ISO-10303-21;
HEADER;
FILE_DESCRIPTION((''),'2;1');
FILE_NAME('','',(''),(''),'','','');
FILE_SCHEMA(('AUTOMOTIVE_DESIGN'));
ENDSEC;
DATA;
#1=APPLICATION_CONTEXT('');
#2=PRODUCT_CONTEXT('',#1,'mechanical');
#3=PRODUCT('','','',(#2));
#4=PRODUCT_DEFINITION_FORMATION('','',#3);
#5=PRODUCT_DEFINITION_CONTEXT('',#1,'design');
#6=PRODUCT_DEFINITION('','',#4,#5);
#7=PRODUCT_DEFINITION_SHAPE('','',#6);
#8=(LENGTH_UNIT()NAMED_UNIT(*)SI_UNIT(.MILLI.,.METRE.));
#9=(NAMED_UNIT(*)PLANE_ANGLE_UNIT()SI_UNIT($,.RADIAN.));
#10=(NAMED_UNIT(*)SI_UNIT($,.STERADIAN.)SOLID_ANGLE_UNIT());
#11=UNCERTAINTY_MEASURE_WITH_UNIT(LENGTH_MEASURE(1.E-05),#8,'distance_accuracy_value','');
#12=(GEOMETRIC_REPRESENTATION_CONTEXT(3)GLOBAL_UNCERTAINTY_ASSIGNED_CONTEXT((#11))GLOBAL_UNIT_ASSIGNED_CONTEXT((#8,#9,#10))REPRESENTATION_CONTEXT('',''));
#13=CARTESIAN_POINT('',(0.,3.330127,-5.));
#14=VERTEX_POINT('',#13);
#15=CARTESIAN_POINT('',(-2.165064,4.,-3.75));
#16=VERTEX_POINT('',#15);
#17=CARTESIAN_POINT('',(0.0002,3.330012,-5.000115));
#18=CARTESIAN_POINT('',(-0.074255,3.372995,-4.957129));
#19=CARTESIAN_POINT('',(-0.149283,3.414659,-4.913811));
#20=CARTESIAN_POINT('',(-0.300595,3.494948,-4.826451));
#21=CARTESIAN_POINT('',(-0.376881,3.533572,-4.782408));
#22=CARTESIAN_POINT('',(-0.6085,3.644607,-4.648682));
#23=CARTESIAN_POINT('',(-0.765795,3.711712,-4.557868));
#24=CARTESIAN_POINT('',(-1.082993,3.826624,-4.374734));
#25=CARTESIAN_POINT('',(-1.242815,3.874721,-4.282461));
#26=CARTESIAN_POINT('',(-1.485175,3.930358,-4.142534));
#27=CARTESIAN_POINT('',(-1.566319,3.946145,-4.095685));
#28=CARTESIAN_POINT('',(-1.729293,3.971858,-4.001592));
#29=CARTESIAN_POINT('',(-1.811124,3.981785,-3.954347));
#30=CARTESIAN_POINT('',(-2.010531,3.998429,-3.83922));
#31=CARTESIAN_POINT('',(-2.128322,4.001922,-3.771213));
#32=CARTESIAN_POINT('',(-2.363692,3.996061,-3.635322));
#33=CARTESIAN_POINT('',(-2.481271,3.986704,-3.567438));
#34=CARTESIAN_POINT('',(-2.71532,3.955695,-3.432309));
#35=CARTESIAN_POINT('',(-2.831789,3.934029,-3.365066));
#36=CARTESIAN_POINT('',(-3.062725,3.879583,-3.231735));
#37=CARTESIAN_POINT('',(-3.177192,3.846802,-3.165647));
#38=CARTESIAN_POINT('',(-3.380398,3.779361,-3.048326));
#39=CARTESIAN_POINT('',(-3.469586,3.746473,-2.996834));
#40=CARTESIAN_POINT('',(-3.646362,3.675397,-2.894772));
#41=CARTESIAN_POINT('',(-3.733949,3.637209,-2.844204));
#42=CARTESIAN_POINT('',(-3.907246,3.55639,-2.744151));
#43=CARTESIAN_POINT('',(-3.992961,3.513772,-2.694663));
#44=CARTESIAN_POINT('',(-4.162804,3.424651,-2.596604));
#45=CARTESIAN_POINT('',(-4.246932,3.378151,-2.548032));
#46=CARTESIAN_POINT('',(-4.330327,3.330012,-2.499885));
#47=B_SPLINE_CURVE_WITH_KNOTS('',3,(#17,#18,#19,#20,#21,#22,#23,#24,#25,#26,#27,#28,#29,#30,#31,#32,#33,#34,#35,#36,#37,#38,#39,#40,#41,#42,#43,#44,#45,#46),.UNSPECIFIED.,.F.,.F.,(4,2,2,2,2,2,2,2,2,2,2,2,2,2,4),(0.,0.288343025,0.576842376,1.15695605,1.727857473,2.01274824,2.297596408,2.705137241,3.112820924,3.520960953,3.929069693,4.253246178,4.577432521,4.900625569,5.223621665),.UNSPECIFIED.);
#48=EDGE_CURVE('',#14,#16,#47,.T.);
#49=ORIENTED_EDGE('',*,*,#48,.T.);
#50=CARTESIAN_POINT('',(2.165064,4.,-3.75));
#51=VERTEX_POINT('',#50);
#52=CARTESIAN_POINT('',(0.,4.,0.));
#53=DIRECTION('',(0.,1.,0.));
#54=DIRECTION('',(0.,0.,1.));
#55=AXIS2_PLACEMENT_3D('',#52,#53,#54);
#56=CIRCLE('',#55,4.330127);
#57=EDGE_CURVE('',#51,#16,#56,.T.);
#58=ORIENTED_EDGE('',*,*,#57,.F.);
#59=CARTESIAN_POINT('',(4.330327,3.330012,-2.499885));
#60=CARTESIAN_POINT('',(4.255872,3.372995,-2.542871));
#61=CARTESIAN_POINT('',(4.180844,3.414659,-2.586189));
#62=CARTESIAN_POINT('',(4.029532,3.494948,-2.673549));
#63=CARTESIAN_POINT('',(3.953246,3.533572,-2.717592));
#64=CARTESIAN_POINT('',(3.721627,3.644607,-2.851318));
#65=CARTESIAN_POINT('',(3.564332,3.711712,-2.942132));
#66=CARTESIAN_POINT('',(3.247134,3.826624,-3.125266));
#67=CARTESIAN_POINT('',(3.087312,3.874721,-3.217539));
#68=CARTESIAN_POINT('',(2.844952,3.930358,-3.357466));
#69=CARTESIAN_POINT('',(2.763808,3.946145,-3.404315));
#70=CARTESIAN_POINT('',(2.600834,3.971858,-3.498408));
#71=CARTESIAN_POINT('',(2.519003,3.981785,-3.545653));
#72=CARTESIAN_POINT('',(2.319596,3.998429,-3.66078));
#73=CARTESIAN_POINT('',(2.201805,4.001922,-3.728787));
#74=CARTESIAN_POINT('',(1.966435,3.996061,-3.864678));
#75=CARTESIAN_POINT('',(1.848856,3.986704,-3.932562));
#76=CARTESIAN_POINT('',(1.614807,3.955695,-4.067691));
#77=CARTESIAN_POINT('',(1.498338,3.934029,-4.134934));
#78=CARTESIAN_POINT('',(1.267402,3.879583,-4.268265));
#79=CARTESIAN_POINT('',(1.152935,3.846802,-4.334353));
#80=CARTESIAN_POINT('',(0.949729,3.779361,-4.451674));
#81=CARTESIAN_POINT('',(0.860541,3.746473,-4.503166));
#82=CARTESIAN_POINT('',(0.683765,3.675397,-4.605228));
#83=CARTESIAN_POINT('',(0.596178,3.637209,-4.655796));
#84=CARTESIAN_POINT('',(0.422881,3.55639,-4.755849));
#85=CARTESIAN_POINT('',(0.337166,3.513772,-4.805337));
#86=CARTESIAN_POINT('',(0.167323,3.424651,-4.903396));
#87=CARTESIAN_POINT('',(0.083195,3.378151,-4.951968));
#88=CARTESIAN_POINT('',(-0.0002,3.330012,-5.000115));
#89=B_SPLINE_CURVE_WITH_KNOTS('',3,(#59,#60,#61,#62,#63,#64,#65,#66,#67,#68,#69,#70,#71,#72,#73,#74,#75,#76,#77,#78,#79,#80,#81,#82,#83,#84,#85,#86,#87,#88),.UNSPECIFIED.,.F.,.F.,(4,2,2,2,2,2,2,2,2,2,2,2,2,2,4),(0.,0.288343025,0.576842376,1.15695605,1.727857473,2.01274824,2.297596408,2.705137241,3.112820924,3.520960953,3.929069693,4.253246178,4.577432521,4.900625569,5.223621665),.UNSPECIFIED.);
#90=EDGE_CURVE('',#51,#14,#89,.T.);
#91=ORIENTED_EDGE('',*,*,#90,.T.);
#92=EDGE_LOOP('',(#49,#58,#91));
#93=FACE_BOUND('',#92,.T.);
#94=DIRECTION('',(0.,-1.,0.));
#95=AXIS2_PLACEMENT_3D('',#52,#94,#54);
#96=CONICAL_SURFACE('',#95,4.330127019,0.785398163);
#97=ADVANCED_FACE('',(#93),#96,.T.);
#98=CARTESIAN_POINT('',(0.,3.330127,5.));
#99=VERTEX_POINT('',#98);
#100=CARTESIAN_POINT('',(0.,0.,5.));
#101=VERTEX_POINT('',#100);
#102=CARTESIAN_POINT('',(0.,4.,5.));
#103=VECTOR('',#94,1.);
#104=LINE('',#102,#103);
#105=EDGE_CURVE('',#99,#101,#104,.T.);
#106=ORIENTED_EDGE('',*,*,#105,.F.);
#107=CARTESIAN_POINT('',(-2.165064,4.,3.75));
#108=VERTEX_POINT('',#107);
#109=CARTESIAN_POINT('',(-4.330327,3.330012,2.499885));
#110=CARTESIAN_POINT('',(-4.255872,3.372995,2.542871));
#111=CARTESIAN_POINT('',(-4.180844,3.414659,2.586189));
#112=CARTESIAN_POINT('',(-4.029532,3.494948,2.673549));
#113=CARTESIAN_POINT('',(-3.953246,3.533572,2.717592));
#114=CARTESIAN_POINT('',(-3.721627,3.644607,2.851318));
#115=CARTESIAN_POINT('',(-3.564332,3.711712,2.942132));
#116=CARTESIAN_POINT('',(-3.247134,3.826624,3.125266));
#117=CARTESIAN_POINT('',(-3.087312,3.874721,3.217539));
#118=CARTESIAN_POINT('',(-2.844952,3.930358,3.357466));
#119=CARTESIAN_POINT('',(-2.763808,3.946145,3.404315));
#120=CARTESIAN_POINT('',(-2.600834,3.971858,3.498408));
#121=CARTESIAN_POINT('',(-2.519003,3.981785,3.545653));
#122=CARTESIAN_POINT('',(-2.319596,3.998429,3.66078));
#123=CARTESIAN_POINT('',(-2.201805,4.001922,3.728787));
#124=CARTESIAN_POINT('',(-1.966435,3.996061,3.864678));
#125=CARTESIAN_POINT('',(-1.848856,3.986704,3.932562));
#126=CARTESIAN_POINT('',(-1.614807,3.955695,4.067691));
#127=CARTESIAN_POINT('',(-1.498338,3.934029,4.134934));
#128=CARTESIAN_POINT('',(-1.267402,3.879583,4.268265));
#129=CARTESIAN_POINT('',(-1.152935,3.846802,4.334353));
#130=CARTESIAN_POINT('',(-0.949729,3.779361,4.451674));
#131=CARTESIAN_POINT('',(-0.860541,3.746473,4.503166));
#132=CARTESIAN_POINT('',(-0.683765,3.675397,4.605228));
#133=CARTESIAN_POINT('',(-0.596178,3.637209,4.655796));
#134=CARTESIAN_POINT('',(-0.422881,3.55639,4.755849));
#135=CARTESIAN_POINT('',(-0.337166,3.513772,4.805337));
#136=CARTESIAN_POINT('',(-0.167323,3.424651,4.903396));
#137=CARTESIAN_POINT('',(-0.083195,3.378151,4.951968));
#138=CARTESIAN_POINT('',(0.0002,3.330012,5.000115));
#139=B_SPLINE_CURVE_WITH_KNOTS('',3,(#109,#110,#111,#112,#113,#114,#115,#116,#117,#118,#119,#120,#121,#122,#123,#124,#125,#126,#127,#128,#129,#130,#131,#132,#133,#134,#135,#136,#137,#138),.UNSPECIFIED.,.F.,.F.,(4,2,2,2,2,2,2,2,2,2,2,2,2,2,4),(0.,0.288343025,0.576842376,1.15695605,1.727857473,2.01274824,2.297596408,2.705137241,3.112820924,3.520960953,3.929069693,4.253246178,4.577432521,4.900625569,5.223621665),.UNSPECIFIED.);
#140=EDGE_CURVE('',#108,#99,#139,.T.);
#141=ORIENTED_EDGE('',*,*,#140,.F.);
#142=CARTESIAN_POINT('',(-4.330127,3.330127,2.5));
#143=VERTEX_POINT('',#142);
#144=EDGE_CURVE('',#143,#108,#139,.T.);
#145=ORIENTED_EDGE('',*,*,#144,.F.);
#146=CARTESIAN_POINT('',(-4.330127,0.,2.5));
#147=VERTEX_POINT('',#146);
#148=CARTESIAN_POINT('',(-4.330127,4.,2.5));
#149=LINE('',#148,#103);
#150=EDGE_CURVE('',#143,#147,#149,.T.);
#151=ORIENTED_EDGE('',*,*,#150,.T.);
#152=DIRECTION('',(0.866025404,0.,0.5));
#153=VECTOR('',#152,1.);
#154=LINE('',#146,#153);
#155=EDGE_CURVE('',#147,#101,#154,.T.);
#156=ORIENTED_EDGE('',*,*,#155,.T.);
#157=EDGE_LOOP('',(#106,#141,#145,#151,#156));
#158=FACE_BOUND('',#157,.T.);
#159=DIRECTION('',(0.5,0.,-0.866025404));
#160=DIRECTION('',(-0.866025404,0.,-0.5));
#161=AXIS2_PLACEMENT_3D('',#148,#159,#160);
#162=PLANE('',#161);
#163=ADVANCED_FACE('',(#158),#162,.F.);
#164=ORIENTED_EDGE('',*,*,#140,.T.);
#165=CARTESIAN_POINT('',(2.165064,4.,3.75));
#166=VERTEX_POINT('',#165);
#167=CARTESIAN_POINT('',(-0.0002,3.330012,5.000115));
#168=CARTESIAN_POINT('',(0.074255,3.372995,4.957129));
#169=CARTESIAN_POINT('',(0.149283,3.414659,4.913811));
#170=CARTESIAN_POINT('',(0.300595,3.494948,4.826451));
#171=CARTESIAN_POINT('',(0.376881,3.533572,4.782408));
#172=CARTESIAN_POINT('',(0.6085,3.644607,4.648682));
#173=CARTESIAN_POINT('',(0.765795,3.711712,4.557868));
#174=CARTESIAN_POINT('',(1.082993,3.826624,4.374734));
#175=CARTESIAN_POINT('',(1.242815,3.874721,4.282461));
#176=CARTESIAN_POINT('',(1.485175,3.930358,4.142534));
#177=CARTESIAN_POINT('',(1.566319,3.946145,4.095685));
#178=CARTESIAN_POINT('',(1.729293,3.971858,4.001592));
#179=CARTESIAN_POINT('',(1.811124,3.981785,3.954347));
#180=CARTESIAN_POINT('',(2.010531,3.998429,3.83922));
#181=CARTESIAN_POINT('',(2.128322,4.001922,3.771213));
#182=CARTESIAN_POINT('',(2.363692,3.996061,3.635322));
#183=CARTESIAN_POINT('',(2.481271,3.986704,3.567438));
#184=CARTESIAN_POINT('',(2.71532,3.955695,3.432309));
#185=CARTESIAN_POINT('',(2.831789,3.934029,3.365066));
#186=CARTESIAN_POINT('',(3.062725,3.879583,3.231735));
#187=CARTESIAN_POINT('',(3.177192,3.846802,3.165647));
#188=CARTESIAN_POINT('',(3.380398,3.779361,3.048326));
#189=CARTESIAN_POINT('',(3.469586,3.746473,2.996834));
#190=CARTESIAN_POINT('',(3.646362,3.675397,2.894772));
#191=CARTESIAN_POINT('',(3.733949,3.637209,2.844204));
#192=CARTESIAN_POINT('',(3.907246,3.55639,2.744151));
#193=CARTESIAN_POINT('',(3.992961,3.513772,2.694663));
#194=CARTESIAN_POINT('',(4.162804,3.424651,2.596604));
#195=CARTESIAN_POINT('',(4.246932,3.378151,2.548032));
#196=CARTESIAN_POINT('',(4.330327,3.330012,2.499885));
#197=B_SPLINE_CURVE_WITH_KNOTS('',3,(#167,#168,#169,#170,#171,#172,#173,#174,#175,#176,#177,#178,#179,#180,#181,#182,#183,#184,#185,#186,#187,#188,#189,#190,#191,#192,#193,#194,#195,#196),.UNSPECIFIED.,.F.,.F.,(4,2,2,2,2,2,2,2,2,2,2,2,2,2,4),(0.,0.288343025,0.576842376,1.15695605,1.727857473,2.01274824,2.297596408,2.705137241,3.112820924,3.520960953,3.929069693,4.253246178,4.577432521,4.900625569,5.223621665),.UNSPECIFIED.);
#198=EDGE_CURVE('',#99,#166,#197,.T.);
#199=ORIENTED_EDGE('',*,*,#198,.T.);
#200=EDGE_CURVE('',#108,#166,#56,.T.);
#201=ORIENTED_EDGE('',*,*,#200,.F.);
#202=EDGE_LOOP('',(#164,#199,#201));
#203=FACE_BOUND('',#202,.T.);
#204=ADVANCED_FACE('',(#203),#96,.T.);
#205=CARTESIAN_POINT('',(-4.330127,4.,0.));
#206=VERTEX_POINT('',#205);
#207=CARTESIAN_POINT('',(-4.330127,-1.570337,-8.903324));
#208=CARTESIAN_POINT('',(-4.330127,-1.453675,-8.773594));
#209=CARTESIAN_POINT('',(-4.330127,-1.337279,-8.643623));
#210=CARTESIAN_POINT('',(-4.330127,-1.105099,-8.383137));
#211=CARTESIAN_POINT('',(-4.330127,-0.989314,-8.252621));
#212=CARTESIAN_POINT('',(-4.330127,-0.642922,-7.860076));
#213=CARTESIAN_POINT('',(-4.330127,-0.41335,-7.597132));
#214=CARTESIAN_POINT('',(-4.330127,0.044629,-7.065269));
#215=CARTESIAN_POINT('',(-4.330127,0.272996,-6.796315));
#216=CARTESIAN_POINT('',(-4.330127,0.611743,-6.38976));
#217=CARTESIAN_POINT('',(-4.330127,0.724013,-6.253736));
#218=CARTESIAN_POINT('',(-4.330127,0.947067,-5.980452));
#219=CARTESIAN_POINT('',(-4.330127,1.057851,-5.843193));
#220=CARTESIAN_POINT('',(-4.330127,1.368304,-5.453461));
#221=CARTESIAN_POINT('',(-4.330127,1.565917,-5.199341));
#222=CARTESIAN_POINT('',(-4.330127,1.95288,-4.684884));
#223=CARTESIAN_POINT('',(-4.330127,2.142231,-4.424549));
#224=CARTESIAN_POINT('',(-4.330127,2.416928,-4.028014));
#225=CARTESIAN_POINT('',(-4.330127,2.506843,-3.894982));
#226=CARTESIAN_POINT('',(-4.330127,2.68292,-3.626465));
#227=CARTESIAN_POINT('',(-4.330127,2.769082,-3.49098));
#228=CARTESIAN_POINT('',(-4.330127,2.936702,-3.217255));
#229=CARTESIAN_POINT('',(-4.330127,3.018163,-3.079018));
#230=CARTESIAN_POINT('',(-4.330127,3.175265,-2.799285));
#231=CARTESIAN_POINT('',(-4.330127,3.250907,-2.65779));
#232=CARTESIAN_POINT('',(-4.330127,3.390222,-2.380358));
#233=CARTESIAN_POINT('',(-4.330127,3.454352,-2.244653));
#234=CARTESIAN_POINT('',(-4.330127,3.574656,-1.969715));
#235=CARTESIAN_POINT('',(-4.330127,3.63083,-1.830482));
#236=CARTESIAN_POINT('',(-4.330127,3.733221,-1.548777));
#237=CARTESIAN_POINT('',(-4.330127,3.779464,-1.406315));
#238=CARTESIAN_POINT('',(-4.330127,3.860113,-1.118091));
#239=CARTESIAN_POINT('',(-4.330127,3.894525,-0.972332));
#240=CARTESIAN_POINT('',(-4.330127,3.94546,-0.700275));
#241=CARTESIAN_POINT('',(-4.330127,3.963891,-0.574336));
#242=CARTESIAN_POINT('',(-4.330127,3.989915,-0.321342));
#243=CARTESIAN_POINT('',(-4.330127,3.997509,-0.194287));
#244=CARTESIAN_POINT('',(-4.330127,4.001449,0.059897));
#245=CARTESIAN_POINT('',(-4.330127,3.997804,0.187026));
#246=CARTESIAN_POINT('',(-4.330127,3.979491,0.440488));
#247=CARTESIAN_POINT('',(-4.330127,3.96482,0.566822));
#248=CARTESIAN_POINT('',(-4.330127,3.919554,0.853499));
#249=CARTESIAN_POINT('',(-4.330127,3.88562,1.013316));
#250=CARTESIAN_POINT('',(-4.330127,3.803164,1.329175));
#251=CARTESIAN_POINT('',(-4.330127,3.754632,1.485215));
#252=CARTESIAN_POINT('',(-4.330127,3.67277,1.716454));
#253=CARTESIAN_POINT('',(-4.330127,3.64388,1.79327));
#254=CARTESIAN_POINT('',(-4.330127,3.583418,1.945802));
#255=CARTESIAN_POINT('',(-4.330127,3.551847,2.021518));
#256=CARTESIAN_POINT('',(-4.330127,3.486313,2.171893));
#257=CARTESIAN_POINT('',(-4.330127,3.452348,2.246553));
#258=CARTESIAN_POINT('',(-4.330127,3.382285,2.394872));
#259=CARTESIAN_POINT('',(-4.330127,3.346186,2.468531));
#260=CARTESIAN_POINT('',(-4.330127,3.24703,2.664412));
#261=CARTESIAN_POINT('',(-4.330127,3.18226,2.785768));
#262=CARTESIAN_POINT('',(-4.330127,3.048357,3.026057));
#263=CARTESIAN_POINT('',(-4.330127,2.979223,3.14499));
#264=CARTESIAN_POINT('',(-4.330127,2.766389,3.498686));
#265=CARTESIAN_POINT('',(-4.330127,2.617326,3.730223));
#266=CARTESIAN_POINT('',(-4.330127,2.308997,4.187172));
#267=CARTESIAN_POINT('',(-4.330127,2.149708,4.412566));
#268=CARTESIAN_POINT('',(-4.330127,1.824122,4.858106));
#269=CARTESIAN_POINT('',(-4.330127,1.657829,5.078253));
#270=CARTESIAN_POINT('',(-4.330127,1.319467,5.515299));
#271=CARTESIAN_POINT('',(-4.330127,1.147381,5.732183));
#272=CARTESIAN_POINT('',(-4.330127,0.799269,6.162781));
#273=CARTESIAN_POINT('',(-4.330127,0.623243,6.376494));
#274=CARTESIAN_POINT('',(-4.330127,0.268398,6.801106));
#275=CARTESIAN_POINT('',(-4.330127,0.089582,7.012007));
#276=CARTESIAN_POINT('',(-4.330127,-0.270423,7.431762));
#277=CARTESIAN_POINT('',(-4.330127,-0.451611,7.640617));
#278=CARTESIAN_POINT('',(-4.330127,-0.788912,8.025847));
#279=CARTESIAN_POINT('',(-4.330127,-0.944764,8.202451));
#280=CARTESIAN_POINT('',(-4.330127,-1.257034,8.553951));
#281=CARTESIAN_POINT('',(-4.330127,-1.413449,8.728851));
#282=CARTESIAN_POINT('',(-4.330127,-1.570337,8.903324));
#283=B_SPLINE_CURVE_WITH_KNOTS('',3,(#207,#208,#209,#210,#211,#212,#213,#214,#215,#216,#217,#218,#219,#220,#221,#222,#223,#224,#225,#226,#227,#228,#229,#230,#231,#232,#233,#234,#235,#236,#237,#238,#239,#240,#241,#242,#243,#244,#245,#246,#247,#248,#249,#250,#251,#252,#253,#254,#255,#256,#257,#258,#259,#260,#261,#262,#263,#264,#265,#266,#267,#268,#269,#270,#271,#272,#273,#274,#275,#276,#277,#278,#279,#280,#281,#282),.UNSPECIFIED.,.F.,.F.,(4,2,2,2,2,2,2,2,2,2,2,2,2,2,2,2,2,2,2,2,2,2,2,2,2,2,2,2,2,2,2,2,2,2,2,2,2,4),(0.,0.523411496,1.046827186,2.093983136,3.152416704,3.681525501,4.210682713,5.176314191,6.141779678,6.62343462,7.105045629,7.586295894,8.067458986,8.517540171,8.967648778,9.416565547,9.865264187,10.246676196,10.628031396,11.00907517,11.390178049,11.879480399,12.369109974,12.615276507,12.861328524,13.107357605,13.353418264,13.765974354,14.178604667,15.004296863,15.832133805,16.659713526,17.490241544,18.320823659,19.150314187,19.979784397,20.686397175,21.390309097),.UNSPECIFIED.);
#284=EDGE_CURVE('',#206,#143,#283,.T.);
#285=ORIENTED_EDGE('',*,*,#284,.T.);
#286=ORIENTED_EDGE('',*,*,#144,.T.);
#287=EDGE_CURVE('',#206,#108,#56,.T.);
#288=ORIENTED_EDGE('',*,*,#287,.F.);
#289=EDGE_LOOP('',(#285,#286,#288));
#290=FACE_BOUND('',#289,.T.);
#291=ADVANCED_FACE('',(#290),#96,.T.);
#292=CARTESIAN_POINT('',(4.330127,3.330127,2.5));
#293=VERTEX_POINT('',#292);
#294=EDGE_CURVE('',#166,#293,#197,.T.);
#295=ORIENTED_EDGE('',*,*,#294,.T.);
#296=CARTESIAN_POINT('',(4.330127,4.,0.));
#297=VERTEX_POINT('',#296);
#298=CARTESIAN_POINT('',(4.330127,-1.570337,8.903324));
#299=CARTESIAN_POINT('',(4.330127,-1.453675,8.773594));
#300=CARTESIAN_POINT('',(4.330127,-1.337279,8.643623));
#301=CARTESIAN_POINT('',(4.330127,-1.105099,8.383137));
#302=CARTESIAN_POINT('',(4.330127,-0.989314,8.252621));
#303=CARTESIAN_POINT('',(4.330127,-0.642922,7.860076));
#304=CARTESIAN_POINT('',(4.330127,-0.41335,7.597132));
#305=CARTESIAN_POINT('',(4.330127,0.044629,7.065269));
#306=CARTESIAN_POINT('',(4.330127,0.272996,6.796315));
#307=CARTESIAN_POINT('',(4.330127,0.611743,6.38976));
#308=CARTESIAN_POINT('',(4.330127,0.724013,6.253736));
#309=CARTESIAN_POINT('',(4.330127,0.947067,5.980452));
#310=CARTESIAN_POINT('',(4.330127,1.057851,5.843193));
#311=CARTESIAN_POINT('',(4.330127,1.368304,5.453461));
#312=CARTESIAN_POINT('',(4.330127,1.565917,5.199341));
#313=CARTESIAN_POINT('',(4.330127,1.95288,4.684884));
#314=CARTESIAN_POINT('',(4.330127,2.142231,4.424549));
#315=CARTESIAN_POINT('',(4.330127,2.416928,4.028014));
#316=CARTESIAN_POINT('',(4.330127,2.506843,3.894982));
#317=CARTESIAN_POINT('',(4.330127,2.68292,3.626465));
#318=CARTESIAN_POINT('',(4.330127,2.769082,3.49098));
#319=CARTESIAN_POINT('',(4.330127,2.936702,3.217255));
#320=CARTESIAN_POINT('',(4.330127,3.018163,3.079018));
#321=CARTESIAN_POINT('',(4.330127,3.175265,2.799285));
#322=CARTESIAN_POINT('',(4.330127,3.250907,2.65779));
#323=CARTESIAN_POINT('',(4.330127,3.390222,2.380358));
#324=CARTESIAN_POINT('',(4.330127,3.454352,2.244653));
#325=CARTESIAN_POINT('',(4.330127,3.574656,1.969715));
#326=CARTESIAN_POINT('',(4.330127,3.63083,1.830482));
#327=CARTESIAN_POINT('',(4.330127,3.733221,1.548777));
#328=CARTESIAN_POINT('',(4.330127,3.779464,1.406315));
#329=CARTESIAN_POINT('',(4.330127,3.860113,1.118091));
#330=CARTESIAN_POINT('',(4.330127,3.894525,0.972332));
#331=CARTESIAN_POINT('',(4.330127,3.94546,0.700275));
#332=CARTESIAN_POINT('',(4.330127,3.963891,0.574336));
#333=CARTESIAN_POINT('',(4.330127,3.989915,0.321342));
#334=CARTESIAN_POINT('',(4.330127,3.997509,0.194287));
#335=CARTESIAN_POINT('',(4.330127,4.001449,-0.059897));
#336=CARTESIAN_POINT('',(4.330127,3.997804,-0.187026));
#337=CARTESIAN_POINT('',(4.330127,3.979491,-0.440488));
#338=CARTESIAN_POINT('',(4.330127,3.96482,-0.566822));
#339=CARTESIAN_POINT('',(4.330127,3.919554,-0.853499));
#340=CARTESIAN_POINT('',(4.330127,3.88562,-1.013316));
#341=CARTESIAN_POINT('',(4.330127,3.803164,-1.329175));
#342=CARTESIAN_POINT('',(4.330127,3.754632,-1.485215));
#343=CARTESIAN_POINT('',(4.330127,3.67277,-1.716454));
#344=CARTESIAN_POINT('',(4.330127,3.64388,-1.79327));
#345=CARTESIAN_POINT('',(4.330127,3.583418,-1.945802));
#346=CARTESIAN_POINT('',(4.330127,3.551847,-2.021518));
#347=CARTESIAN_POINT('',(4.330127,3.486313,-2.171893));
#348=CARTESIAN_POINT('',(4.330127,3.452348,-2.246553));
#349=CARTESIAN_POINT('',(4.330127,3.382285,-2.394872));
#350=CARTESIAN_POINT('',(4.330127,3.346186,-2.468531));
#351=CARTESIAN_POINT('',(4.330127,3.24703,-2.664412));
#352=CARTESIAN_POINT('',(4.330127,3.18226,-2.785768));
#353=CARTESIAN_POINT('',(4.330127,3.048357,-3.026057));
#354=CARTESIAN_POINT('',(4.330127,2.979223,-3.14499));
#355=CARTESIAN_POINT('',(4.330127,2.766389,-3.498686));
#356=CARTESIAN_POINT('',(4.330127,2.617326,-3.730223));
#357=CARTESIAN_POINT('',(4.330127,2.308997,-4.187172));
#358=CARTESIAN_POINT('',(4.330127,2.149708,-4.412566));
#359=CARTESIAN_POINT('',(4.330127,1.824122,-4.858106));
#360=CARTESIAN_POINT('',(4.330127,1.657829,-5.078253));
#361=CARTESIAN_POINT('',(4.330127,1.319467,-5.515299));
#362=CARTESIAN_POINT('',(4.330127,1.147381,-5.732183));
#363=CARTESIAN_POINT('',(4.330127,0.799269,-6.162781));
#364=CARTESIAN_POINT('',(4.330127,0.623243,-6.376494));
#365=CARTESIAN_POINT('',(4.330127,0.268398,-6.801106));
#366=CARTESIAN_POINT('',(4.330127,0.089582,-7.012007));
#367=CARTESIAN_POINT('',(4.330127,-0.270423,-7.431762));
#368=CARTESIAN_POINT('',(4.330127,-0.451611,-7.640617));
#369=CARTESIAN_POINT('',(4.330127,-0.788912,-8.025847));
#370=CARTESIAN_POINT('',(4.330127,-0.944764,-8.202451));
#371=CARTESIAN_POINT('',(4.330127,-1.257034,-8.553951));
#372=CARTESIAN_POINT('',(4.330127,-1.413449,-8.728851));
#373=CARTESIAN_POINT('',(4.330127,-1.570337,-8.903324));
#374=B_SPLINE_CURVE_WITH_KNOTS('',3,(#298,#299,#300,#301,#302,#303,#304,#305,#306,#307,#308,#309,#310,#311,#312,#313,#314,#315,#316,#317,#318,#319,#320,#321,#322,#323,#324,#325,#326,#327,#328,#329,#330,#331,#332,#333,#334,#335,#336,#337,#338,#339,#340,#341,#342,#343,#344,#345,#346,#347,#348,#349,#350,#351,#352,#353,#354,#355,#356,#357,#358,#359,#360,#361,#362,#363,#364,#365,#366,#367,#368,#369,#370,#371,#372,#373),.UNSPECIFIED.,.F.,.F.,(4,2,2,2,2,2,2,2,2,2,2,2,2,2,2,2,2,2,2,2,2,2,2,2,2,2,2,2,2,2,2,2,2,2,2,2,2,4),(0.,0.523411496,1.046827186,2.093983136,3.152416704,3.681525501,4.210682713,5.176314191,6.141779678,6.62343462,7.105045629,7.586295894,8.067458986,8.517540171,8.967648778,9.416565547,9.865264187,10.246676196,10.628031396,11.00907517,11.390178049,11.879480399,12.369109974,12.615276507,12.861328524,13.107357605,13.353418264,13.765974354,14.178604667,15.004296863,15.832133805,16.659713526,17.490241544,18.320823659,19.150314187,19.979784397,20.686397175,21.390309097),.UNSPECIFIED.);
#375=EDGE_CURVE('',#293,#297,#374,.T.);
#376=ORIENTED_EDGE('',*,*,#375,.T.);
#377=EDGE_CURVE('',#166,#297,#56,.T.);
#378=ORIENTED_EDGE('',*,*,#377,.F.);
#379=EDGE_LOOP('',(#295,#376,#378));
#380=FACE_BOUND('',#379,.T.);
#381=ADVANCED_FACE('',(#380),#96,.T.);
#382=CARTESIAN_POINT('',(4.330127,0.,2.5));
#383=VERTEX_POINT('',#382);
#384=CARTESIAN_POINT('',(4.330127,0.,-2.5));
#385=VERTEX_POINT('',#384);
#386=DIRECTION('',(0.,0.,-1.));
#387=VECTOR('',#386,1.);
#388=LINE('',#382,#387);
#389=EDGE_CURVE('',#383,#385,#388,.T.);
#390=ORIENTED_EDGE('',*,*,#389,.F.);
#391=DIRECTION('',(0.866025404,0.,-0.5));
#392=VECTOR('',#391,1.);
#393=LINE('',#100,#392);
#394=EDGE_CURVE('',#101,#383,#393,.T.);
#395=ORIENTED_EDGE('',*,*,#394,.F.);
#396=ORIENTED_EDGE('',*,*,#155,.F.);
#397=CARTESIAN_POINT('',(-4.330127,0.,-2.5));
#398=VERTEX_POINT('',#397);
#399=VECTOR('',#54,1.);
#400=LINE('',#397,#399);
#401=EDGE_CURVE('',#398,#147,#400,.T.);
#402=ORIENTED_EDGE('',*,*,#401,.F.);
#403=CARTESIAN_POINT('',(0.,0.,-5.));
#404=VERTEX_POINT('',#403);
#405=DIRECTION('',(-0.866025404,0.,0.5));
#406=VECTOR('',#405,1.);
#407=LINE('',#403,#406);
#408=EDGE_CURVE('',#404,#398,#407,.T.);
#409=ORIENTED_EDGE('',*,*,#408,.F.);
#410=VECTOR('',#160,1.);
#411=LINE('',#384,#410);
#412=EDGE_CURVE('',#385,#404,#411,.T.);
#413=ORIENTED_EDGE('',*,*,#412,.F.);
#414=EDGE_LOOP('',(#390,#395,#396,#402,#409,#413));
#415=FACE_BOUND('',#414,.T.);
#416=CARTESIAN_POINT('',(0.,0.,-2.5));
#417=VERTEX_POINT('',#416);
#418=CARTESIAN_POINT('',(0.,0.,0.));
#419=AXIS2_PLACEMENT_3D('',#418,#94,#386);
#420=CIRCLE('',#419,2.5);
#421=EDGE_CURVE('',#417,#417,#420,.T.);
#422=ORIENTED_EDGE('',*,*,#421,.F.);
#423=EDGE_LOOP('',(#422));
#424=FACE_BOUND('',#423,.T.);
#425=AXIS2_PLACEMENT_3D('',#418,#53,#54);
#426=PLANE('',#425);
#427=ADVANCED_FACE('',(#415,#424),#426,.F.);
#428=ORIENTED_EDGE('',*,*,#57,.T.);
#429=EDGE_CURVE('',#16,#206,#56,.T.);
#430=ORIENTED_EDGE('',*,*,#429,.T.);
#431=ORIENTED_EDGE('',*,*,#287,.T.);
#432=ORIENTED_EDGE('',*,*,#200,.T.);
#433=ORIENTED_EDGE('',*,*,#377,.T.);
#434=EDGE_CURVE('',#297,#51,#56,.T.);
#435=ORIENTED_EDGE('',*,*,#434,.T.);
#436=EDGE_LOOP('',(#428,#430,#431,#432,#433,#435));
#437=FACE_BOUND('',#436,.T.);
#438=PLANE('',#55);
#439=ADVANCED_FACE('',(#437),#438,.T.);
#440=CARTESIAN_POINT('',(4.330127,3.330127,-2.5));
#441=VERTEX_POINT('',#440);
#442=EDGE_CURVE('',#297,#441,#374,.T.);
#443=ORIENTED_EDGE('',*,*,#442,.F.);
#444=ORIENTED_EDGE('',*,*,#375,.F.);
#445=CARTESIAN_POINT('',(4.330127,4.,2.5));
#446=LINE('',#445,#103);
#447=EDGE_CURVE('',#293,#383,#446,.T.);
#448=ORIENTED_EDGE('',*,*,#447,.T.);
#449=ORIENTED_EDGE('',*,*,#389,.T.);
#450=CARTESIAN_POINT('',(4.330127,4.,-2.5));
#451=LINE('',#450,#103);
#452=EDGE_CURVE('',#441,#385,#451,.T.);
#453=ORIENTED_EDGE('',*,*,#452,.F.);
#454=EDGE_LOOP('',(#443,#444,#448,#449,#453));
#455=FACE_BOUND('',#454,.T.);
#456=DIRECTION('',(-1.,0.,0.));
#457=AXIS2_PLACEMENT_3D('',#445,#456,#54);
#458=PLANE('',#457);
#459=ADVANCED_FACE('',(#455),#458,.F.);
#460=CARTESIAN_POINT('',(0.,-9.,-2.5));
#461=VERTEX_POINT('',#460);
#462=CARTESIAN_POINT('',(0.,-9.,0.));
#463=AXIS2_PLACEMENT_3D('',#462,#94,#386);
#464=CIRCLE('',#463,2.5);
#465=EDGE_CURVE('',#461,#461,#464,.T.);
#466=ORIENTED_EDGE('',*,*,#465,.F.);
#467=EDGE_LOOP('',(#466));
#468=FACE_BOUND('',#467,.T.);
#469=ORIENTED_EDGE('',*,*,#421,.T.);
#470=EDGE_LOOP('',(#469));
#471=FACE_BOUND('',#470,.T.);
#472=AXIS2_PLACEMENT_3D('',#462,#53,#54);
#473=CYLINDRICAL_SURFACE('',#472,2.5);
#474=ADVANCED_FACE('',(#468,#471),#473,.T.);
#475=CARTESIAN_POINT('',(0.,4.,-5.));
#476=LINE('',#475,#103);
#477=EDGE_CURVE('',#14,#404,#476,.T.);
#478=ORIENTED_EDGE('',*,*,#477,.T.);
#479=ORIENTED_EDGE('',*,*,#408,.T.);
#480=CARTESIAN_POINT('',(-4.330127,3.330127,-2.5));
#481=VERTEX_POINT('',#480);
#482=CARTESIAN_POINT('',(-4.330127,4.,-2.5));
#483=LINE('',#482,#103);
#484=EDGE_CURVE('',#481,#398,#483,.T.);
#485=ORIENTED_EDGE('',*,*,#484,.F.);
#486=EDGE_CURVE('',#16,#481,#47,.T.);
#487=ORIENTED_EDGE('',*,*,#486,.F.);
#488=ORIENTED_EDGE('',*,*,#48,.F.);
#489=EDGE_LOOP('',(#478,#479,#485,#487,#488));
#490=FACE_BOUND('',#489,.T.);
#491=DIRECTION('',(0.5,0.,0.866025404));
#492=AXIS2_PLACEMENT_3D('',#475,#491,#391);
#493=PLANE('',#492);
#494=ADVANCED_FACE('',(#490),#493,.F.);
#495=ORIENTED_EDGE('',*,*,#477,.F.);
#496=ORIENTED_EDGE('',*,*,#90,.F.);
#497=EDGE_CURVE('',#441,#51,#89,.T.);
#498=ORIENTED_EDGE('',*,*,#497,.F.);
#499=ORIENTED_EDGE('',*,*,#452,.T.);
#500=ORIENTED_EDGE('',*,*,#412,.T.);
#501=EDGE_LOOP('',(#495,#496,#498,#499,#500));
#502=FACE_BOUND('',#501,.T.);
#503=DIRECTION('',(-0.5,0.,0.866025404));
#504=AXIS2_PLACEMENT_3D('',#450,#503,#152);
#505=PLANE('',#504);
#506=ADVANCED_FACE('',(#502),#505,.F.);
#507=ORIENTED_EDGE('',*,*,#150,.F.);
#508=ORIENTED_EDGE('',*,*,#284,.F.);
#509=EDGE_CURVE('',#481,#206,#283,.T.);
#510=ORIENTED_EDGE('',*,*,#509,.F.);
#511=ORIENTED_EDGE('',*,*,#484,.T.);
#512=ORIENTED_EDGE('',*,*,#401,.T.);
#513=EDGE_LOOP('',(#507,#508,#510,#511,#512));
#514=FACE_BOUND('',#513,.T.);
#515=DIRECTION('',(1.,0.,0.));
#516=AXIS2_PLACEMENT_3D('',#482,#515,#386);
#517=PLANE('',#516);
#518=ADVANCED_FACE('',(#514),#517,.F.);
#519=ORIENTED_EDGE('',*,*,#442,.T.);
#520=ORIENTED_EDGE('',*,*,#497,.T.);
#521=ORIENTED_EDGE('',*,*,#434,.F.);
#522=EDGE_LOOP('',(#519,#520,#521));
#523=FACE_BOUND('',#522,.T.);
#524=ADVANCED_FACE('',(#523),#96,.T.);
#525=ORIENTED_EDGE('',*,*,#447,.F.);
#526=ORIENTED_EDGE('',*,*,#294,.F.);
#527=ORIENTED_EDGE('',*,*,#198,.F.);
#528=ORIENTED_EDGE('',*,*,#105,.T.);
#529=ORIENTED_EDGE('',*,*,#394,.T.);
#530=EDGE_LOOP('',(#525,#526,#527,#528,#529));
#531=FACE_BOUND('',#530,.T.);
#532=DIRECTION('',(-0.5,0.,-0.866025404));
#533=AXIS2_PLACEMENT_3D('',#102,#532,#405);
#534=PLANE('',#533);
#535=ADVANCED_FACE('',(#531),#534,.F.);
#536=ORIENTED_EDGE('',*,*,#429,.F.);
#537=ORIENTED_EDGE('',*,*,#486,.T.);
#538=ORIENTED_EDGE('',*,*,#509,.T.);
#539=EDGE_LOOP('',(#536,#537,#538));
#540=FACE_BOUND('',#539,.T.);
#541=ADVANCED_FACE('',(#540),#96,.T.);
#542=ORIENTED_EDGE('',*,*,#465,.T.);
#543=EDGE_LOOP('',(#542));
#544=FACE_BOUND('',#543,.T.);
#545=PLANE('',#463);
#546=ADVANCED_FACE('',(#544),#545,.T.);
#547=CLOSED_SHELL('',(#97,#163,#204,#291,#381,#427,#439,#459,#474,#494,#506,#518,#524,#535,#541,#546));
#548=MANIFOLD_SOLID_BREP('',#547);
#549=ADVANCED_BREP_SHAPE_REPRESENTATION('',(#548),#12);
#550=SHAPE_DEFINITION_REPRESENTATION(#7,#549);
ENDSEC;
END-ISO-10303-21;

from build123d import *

# Parameters (mm, degrees)
BOSS_EXTRUDE1_DEPTH = 4
SKETCH2_R           = 2.5
BOSS_EXTRUDE2_DEPTH = 9
SKETCH3_OUTSIDE_W   = 32.37
SKETCH3_OUTSIDE_H   = 33.71
SKETCH3_OUTSIDE_R   = 4.330127019
CUT_EXTRUDE1_DEPTH  = 9
CUT_EXTRUDE1_DRAFT  = -45


with BuildPart() as part:
    # Sketch1 → Boss-Extrude1 (new body)
    with BuildSketch(Plane(origin=(0, 0, 0), x_dir=(1, 0, 0), z_dir=(0, 1, 0))):
        Polygon((0, -5), (4.330127019, -2.5), (4.330127019, 2.5), (0, 5), (-4.330127019, 2.5), (-4.330127019, -2.5), align=None)
    extrude(amount=BOSS_EXTRUDE1_DEPTH)

    # Sketch2 → Boss-Extrude2 (add)
    with BuildSketch(Plane.XZ):
        with Locations(Location((0, 0, 0), (0, 0, 270))):
            Circle(SKETCH2_R)
    extrude(amount=BOSS_EXTRUDE2_DEPTH)


with BuildPart() as cut_extrude1_tool:
    # Sketch3 outside → Cut-Extrude1 (with draft: the straight prism first)
    with BuildSketch(Plane(origin=(0, 4, 0), x_dir=(1, 0, 0), z_dir=(0, 1, 0))):
        Rectangle(SKETCH3_OUTSIDE_W, SKETCH3_OUTSIDE_H)
        Circle(SKETCH3_OUTSIDE_R, mode=Mode.SUBTRACT)
    extrude(amount=-CUT_EXTRUDE1_DEPTH)
    # Cut-Extrude1: the draft: its side faces are tilted about the plane it starts from
    cut_extrude1_sides = [cut_extrude1_tool.faces().sort_by_distance(p)[0] for p in [
        (0, -0.5, 16.855),
        (16.185, -0.5, 0),
        (0, -0.5, -16.855),
        (-16.185, -0.5, 0),
        (-4.330127019, -0.5, 0),
    ]]
    draft(cut_extrude1_sides, Plane(origin=(0, 4, 0), x_dir=(1, 0, 0), z_dir=(0, 1, 0)), CUT_EXTRUDE1_DRAFT)


with BuildPart() as part_1:
    add(part.part)

    # Cut-Extrude1: cut by cut_extrude1_tool
    add(cut_extrude1_tool.part, mode=Mode.SUBTRACT)


solid = part_1.part
